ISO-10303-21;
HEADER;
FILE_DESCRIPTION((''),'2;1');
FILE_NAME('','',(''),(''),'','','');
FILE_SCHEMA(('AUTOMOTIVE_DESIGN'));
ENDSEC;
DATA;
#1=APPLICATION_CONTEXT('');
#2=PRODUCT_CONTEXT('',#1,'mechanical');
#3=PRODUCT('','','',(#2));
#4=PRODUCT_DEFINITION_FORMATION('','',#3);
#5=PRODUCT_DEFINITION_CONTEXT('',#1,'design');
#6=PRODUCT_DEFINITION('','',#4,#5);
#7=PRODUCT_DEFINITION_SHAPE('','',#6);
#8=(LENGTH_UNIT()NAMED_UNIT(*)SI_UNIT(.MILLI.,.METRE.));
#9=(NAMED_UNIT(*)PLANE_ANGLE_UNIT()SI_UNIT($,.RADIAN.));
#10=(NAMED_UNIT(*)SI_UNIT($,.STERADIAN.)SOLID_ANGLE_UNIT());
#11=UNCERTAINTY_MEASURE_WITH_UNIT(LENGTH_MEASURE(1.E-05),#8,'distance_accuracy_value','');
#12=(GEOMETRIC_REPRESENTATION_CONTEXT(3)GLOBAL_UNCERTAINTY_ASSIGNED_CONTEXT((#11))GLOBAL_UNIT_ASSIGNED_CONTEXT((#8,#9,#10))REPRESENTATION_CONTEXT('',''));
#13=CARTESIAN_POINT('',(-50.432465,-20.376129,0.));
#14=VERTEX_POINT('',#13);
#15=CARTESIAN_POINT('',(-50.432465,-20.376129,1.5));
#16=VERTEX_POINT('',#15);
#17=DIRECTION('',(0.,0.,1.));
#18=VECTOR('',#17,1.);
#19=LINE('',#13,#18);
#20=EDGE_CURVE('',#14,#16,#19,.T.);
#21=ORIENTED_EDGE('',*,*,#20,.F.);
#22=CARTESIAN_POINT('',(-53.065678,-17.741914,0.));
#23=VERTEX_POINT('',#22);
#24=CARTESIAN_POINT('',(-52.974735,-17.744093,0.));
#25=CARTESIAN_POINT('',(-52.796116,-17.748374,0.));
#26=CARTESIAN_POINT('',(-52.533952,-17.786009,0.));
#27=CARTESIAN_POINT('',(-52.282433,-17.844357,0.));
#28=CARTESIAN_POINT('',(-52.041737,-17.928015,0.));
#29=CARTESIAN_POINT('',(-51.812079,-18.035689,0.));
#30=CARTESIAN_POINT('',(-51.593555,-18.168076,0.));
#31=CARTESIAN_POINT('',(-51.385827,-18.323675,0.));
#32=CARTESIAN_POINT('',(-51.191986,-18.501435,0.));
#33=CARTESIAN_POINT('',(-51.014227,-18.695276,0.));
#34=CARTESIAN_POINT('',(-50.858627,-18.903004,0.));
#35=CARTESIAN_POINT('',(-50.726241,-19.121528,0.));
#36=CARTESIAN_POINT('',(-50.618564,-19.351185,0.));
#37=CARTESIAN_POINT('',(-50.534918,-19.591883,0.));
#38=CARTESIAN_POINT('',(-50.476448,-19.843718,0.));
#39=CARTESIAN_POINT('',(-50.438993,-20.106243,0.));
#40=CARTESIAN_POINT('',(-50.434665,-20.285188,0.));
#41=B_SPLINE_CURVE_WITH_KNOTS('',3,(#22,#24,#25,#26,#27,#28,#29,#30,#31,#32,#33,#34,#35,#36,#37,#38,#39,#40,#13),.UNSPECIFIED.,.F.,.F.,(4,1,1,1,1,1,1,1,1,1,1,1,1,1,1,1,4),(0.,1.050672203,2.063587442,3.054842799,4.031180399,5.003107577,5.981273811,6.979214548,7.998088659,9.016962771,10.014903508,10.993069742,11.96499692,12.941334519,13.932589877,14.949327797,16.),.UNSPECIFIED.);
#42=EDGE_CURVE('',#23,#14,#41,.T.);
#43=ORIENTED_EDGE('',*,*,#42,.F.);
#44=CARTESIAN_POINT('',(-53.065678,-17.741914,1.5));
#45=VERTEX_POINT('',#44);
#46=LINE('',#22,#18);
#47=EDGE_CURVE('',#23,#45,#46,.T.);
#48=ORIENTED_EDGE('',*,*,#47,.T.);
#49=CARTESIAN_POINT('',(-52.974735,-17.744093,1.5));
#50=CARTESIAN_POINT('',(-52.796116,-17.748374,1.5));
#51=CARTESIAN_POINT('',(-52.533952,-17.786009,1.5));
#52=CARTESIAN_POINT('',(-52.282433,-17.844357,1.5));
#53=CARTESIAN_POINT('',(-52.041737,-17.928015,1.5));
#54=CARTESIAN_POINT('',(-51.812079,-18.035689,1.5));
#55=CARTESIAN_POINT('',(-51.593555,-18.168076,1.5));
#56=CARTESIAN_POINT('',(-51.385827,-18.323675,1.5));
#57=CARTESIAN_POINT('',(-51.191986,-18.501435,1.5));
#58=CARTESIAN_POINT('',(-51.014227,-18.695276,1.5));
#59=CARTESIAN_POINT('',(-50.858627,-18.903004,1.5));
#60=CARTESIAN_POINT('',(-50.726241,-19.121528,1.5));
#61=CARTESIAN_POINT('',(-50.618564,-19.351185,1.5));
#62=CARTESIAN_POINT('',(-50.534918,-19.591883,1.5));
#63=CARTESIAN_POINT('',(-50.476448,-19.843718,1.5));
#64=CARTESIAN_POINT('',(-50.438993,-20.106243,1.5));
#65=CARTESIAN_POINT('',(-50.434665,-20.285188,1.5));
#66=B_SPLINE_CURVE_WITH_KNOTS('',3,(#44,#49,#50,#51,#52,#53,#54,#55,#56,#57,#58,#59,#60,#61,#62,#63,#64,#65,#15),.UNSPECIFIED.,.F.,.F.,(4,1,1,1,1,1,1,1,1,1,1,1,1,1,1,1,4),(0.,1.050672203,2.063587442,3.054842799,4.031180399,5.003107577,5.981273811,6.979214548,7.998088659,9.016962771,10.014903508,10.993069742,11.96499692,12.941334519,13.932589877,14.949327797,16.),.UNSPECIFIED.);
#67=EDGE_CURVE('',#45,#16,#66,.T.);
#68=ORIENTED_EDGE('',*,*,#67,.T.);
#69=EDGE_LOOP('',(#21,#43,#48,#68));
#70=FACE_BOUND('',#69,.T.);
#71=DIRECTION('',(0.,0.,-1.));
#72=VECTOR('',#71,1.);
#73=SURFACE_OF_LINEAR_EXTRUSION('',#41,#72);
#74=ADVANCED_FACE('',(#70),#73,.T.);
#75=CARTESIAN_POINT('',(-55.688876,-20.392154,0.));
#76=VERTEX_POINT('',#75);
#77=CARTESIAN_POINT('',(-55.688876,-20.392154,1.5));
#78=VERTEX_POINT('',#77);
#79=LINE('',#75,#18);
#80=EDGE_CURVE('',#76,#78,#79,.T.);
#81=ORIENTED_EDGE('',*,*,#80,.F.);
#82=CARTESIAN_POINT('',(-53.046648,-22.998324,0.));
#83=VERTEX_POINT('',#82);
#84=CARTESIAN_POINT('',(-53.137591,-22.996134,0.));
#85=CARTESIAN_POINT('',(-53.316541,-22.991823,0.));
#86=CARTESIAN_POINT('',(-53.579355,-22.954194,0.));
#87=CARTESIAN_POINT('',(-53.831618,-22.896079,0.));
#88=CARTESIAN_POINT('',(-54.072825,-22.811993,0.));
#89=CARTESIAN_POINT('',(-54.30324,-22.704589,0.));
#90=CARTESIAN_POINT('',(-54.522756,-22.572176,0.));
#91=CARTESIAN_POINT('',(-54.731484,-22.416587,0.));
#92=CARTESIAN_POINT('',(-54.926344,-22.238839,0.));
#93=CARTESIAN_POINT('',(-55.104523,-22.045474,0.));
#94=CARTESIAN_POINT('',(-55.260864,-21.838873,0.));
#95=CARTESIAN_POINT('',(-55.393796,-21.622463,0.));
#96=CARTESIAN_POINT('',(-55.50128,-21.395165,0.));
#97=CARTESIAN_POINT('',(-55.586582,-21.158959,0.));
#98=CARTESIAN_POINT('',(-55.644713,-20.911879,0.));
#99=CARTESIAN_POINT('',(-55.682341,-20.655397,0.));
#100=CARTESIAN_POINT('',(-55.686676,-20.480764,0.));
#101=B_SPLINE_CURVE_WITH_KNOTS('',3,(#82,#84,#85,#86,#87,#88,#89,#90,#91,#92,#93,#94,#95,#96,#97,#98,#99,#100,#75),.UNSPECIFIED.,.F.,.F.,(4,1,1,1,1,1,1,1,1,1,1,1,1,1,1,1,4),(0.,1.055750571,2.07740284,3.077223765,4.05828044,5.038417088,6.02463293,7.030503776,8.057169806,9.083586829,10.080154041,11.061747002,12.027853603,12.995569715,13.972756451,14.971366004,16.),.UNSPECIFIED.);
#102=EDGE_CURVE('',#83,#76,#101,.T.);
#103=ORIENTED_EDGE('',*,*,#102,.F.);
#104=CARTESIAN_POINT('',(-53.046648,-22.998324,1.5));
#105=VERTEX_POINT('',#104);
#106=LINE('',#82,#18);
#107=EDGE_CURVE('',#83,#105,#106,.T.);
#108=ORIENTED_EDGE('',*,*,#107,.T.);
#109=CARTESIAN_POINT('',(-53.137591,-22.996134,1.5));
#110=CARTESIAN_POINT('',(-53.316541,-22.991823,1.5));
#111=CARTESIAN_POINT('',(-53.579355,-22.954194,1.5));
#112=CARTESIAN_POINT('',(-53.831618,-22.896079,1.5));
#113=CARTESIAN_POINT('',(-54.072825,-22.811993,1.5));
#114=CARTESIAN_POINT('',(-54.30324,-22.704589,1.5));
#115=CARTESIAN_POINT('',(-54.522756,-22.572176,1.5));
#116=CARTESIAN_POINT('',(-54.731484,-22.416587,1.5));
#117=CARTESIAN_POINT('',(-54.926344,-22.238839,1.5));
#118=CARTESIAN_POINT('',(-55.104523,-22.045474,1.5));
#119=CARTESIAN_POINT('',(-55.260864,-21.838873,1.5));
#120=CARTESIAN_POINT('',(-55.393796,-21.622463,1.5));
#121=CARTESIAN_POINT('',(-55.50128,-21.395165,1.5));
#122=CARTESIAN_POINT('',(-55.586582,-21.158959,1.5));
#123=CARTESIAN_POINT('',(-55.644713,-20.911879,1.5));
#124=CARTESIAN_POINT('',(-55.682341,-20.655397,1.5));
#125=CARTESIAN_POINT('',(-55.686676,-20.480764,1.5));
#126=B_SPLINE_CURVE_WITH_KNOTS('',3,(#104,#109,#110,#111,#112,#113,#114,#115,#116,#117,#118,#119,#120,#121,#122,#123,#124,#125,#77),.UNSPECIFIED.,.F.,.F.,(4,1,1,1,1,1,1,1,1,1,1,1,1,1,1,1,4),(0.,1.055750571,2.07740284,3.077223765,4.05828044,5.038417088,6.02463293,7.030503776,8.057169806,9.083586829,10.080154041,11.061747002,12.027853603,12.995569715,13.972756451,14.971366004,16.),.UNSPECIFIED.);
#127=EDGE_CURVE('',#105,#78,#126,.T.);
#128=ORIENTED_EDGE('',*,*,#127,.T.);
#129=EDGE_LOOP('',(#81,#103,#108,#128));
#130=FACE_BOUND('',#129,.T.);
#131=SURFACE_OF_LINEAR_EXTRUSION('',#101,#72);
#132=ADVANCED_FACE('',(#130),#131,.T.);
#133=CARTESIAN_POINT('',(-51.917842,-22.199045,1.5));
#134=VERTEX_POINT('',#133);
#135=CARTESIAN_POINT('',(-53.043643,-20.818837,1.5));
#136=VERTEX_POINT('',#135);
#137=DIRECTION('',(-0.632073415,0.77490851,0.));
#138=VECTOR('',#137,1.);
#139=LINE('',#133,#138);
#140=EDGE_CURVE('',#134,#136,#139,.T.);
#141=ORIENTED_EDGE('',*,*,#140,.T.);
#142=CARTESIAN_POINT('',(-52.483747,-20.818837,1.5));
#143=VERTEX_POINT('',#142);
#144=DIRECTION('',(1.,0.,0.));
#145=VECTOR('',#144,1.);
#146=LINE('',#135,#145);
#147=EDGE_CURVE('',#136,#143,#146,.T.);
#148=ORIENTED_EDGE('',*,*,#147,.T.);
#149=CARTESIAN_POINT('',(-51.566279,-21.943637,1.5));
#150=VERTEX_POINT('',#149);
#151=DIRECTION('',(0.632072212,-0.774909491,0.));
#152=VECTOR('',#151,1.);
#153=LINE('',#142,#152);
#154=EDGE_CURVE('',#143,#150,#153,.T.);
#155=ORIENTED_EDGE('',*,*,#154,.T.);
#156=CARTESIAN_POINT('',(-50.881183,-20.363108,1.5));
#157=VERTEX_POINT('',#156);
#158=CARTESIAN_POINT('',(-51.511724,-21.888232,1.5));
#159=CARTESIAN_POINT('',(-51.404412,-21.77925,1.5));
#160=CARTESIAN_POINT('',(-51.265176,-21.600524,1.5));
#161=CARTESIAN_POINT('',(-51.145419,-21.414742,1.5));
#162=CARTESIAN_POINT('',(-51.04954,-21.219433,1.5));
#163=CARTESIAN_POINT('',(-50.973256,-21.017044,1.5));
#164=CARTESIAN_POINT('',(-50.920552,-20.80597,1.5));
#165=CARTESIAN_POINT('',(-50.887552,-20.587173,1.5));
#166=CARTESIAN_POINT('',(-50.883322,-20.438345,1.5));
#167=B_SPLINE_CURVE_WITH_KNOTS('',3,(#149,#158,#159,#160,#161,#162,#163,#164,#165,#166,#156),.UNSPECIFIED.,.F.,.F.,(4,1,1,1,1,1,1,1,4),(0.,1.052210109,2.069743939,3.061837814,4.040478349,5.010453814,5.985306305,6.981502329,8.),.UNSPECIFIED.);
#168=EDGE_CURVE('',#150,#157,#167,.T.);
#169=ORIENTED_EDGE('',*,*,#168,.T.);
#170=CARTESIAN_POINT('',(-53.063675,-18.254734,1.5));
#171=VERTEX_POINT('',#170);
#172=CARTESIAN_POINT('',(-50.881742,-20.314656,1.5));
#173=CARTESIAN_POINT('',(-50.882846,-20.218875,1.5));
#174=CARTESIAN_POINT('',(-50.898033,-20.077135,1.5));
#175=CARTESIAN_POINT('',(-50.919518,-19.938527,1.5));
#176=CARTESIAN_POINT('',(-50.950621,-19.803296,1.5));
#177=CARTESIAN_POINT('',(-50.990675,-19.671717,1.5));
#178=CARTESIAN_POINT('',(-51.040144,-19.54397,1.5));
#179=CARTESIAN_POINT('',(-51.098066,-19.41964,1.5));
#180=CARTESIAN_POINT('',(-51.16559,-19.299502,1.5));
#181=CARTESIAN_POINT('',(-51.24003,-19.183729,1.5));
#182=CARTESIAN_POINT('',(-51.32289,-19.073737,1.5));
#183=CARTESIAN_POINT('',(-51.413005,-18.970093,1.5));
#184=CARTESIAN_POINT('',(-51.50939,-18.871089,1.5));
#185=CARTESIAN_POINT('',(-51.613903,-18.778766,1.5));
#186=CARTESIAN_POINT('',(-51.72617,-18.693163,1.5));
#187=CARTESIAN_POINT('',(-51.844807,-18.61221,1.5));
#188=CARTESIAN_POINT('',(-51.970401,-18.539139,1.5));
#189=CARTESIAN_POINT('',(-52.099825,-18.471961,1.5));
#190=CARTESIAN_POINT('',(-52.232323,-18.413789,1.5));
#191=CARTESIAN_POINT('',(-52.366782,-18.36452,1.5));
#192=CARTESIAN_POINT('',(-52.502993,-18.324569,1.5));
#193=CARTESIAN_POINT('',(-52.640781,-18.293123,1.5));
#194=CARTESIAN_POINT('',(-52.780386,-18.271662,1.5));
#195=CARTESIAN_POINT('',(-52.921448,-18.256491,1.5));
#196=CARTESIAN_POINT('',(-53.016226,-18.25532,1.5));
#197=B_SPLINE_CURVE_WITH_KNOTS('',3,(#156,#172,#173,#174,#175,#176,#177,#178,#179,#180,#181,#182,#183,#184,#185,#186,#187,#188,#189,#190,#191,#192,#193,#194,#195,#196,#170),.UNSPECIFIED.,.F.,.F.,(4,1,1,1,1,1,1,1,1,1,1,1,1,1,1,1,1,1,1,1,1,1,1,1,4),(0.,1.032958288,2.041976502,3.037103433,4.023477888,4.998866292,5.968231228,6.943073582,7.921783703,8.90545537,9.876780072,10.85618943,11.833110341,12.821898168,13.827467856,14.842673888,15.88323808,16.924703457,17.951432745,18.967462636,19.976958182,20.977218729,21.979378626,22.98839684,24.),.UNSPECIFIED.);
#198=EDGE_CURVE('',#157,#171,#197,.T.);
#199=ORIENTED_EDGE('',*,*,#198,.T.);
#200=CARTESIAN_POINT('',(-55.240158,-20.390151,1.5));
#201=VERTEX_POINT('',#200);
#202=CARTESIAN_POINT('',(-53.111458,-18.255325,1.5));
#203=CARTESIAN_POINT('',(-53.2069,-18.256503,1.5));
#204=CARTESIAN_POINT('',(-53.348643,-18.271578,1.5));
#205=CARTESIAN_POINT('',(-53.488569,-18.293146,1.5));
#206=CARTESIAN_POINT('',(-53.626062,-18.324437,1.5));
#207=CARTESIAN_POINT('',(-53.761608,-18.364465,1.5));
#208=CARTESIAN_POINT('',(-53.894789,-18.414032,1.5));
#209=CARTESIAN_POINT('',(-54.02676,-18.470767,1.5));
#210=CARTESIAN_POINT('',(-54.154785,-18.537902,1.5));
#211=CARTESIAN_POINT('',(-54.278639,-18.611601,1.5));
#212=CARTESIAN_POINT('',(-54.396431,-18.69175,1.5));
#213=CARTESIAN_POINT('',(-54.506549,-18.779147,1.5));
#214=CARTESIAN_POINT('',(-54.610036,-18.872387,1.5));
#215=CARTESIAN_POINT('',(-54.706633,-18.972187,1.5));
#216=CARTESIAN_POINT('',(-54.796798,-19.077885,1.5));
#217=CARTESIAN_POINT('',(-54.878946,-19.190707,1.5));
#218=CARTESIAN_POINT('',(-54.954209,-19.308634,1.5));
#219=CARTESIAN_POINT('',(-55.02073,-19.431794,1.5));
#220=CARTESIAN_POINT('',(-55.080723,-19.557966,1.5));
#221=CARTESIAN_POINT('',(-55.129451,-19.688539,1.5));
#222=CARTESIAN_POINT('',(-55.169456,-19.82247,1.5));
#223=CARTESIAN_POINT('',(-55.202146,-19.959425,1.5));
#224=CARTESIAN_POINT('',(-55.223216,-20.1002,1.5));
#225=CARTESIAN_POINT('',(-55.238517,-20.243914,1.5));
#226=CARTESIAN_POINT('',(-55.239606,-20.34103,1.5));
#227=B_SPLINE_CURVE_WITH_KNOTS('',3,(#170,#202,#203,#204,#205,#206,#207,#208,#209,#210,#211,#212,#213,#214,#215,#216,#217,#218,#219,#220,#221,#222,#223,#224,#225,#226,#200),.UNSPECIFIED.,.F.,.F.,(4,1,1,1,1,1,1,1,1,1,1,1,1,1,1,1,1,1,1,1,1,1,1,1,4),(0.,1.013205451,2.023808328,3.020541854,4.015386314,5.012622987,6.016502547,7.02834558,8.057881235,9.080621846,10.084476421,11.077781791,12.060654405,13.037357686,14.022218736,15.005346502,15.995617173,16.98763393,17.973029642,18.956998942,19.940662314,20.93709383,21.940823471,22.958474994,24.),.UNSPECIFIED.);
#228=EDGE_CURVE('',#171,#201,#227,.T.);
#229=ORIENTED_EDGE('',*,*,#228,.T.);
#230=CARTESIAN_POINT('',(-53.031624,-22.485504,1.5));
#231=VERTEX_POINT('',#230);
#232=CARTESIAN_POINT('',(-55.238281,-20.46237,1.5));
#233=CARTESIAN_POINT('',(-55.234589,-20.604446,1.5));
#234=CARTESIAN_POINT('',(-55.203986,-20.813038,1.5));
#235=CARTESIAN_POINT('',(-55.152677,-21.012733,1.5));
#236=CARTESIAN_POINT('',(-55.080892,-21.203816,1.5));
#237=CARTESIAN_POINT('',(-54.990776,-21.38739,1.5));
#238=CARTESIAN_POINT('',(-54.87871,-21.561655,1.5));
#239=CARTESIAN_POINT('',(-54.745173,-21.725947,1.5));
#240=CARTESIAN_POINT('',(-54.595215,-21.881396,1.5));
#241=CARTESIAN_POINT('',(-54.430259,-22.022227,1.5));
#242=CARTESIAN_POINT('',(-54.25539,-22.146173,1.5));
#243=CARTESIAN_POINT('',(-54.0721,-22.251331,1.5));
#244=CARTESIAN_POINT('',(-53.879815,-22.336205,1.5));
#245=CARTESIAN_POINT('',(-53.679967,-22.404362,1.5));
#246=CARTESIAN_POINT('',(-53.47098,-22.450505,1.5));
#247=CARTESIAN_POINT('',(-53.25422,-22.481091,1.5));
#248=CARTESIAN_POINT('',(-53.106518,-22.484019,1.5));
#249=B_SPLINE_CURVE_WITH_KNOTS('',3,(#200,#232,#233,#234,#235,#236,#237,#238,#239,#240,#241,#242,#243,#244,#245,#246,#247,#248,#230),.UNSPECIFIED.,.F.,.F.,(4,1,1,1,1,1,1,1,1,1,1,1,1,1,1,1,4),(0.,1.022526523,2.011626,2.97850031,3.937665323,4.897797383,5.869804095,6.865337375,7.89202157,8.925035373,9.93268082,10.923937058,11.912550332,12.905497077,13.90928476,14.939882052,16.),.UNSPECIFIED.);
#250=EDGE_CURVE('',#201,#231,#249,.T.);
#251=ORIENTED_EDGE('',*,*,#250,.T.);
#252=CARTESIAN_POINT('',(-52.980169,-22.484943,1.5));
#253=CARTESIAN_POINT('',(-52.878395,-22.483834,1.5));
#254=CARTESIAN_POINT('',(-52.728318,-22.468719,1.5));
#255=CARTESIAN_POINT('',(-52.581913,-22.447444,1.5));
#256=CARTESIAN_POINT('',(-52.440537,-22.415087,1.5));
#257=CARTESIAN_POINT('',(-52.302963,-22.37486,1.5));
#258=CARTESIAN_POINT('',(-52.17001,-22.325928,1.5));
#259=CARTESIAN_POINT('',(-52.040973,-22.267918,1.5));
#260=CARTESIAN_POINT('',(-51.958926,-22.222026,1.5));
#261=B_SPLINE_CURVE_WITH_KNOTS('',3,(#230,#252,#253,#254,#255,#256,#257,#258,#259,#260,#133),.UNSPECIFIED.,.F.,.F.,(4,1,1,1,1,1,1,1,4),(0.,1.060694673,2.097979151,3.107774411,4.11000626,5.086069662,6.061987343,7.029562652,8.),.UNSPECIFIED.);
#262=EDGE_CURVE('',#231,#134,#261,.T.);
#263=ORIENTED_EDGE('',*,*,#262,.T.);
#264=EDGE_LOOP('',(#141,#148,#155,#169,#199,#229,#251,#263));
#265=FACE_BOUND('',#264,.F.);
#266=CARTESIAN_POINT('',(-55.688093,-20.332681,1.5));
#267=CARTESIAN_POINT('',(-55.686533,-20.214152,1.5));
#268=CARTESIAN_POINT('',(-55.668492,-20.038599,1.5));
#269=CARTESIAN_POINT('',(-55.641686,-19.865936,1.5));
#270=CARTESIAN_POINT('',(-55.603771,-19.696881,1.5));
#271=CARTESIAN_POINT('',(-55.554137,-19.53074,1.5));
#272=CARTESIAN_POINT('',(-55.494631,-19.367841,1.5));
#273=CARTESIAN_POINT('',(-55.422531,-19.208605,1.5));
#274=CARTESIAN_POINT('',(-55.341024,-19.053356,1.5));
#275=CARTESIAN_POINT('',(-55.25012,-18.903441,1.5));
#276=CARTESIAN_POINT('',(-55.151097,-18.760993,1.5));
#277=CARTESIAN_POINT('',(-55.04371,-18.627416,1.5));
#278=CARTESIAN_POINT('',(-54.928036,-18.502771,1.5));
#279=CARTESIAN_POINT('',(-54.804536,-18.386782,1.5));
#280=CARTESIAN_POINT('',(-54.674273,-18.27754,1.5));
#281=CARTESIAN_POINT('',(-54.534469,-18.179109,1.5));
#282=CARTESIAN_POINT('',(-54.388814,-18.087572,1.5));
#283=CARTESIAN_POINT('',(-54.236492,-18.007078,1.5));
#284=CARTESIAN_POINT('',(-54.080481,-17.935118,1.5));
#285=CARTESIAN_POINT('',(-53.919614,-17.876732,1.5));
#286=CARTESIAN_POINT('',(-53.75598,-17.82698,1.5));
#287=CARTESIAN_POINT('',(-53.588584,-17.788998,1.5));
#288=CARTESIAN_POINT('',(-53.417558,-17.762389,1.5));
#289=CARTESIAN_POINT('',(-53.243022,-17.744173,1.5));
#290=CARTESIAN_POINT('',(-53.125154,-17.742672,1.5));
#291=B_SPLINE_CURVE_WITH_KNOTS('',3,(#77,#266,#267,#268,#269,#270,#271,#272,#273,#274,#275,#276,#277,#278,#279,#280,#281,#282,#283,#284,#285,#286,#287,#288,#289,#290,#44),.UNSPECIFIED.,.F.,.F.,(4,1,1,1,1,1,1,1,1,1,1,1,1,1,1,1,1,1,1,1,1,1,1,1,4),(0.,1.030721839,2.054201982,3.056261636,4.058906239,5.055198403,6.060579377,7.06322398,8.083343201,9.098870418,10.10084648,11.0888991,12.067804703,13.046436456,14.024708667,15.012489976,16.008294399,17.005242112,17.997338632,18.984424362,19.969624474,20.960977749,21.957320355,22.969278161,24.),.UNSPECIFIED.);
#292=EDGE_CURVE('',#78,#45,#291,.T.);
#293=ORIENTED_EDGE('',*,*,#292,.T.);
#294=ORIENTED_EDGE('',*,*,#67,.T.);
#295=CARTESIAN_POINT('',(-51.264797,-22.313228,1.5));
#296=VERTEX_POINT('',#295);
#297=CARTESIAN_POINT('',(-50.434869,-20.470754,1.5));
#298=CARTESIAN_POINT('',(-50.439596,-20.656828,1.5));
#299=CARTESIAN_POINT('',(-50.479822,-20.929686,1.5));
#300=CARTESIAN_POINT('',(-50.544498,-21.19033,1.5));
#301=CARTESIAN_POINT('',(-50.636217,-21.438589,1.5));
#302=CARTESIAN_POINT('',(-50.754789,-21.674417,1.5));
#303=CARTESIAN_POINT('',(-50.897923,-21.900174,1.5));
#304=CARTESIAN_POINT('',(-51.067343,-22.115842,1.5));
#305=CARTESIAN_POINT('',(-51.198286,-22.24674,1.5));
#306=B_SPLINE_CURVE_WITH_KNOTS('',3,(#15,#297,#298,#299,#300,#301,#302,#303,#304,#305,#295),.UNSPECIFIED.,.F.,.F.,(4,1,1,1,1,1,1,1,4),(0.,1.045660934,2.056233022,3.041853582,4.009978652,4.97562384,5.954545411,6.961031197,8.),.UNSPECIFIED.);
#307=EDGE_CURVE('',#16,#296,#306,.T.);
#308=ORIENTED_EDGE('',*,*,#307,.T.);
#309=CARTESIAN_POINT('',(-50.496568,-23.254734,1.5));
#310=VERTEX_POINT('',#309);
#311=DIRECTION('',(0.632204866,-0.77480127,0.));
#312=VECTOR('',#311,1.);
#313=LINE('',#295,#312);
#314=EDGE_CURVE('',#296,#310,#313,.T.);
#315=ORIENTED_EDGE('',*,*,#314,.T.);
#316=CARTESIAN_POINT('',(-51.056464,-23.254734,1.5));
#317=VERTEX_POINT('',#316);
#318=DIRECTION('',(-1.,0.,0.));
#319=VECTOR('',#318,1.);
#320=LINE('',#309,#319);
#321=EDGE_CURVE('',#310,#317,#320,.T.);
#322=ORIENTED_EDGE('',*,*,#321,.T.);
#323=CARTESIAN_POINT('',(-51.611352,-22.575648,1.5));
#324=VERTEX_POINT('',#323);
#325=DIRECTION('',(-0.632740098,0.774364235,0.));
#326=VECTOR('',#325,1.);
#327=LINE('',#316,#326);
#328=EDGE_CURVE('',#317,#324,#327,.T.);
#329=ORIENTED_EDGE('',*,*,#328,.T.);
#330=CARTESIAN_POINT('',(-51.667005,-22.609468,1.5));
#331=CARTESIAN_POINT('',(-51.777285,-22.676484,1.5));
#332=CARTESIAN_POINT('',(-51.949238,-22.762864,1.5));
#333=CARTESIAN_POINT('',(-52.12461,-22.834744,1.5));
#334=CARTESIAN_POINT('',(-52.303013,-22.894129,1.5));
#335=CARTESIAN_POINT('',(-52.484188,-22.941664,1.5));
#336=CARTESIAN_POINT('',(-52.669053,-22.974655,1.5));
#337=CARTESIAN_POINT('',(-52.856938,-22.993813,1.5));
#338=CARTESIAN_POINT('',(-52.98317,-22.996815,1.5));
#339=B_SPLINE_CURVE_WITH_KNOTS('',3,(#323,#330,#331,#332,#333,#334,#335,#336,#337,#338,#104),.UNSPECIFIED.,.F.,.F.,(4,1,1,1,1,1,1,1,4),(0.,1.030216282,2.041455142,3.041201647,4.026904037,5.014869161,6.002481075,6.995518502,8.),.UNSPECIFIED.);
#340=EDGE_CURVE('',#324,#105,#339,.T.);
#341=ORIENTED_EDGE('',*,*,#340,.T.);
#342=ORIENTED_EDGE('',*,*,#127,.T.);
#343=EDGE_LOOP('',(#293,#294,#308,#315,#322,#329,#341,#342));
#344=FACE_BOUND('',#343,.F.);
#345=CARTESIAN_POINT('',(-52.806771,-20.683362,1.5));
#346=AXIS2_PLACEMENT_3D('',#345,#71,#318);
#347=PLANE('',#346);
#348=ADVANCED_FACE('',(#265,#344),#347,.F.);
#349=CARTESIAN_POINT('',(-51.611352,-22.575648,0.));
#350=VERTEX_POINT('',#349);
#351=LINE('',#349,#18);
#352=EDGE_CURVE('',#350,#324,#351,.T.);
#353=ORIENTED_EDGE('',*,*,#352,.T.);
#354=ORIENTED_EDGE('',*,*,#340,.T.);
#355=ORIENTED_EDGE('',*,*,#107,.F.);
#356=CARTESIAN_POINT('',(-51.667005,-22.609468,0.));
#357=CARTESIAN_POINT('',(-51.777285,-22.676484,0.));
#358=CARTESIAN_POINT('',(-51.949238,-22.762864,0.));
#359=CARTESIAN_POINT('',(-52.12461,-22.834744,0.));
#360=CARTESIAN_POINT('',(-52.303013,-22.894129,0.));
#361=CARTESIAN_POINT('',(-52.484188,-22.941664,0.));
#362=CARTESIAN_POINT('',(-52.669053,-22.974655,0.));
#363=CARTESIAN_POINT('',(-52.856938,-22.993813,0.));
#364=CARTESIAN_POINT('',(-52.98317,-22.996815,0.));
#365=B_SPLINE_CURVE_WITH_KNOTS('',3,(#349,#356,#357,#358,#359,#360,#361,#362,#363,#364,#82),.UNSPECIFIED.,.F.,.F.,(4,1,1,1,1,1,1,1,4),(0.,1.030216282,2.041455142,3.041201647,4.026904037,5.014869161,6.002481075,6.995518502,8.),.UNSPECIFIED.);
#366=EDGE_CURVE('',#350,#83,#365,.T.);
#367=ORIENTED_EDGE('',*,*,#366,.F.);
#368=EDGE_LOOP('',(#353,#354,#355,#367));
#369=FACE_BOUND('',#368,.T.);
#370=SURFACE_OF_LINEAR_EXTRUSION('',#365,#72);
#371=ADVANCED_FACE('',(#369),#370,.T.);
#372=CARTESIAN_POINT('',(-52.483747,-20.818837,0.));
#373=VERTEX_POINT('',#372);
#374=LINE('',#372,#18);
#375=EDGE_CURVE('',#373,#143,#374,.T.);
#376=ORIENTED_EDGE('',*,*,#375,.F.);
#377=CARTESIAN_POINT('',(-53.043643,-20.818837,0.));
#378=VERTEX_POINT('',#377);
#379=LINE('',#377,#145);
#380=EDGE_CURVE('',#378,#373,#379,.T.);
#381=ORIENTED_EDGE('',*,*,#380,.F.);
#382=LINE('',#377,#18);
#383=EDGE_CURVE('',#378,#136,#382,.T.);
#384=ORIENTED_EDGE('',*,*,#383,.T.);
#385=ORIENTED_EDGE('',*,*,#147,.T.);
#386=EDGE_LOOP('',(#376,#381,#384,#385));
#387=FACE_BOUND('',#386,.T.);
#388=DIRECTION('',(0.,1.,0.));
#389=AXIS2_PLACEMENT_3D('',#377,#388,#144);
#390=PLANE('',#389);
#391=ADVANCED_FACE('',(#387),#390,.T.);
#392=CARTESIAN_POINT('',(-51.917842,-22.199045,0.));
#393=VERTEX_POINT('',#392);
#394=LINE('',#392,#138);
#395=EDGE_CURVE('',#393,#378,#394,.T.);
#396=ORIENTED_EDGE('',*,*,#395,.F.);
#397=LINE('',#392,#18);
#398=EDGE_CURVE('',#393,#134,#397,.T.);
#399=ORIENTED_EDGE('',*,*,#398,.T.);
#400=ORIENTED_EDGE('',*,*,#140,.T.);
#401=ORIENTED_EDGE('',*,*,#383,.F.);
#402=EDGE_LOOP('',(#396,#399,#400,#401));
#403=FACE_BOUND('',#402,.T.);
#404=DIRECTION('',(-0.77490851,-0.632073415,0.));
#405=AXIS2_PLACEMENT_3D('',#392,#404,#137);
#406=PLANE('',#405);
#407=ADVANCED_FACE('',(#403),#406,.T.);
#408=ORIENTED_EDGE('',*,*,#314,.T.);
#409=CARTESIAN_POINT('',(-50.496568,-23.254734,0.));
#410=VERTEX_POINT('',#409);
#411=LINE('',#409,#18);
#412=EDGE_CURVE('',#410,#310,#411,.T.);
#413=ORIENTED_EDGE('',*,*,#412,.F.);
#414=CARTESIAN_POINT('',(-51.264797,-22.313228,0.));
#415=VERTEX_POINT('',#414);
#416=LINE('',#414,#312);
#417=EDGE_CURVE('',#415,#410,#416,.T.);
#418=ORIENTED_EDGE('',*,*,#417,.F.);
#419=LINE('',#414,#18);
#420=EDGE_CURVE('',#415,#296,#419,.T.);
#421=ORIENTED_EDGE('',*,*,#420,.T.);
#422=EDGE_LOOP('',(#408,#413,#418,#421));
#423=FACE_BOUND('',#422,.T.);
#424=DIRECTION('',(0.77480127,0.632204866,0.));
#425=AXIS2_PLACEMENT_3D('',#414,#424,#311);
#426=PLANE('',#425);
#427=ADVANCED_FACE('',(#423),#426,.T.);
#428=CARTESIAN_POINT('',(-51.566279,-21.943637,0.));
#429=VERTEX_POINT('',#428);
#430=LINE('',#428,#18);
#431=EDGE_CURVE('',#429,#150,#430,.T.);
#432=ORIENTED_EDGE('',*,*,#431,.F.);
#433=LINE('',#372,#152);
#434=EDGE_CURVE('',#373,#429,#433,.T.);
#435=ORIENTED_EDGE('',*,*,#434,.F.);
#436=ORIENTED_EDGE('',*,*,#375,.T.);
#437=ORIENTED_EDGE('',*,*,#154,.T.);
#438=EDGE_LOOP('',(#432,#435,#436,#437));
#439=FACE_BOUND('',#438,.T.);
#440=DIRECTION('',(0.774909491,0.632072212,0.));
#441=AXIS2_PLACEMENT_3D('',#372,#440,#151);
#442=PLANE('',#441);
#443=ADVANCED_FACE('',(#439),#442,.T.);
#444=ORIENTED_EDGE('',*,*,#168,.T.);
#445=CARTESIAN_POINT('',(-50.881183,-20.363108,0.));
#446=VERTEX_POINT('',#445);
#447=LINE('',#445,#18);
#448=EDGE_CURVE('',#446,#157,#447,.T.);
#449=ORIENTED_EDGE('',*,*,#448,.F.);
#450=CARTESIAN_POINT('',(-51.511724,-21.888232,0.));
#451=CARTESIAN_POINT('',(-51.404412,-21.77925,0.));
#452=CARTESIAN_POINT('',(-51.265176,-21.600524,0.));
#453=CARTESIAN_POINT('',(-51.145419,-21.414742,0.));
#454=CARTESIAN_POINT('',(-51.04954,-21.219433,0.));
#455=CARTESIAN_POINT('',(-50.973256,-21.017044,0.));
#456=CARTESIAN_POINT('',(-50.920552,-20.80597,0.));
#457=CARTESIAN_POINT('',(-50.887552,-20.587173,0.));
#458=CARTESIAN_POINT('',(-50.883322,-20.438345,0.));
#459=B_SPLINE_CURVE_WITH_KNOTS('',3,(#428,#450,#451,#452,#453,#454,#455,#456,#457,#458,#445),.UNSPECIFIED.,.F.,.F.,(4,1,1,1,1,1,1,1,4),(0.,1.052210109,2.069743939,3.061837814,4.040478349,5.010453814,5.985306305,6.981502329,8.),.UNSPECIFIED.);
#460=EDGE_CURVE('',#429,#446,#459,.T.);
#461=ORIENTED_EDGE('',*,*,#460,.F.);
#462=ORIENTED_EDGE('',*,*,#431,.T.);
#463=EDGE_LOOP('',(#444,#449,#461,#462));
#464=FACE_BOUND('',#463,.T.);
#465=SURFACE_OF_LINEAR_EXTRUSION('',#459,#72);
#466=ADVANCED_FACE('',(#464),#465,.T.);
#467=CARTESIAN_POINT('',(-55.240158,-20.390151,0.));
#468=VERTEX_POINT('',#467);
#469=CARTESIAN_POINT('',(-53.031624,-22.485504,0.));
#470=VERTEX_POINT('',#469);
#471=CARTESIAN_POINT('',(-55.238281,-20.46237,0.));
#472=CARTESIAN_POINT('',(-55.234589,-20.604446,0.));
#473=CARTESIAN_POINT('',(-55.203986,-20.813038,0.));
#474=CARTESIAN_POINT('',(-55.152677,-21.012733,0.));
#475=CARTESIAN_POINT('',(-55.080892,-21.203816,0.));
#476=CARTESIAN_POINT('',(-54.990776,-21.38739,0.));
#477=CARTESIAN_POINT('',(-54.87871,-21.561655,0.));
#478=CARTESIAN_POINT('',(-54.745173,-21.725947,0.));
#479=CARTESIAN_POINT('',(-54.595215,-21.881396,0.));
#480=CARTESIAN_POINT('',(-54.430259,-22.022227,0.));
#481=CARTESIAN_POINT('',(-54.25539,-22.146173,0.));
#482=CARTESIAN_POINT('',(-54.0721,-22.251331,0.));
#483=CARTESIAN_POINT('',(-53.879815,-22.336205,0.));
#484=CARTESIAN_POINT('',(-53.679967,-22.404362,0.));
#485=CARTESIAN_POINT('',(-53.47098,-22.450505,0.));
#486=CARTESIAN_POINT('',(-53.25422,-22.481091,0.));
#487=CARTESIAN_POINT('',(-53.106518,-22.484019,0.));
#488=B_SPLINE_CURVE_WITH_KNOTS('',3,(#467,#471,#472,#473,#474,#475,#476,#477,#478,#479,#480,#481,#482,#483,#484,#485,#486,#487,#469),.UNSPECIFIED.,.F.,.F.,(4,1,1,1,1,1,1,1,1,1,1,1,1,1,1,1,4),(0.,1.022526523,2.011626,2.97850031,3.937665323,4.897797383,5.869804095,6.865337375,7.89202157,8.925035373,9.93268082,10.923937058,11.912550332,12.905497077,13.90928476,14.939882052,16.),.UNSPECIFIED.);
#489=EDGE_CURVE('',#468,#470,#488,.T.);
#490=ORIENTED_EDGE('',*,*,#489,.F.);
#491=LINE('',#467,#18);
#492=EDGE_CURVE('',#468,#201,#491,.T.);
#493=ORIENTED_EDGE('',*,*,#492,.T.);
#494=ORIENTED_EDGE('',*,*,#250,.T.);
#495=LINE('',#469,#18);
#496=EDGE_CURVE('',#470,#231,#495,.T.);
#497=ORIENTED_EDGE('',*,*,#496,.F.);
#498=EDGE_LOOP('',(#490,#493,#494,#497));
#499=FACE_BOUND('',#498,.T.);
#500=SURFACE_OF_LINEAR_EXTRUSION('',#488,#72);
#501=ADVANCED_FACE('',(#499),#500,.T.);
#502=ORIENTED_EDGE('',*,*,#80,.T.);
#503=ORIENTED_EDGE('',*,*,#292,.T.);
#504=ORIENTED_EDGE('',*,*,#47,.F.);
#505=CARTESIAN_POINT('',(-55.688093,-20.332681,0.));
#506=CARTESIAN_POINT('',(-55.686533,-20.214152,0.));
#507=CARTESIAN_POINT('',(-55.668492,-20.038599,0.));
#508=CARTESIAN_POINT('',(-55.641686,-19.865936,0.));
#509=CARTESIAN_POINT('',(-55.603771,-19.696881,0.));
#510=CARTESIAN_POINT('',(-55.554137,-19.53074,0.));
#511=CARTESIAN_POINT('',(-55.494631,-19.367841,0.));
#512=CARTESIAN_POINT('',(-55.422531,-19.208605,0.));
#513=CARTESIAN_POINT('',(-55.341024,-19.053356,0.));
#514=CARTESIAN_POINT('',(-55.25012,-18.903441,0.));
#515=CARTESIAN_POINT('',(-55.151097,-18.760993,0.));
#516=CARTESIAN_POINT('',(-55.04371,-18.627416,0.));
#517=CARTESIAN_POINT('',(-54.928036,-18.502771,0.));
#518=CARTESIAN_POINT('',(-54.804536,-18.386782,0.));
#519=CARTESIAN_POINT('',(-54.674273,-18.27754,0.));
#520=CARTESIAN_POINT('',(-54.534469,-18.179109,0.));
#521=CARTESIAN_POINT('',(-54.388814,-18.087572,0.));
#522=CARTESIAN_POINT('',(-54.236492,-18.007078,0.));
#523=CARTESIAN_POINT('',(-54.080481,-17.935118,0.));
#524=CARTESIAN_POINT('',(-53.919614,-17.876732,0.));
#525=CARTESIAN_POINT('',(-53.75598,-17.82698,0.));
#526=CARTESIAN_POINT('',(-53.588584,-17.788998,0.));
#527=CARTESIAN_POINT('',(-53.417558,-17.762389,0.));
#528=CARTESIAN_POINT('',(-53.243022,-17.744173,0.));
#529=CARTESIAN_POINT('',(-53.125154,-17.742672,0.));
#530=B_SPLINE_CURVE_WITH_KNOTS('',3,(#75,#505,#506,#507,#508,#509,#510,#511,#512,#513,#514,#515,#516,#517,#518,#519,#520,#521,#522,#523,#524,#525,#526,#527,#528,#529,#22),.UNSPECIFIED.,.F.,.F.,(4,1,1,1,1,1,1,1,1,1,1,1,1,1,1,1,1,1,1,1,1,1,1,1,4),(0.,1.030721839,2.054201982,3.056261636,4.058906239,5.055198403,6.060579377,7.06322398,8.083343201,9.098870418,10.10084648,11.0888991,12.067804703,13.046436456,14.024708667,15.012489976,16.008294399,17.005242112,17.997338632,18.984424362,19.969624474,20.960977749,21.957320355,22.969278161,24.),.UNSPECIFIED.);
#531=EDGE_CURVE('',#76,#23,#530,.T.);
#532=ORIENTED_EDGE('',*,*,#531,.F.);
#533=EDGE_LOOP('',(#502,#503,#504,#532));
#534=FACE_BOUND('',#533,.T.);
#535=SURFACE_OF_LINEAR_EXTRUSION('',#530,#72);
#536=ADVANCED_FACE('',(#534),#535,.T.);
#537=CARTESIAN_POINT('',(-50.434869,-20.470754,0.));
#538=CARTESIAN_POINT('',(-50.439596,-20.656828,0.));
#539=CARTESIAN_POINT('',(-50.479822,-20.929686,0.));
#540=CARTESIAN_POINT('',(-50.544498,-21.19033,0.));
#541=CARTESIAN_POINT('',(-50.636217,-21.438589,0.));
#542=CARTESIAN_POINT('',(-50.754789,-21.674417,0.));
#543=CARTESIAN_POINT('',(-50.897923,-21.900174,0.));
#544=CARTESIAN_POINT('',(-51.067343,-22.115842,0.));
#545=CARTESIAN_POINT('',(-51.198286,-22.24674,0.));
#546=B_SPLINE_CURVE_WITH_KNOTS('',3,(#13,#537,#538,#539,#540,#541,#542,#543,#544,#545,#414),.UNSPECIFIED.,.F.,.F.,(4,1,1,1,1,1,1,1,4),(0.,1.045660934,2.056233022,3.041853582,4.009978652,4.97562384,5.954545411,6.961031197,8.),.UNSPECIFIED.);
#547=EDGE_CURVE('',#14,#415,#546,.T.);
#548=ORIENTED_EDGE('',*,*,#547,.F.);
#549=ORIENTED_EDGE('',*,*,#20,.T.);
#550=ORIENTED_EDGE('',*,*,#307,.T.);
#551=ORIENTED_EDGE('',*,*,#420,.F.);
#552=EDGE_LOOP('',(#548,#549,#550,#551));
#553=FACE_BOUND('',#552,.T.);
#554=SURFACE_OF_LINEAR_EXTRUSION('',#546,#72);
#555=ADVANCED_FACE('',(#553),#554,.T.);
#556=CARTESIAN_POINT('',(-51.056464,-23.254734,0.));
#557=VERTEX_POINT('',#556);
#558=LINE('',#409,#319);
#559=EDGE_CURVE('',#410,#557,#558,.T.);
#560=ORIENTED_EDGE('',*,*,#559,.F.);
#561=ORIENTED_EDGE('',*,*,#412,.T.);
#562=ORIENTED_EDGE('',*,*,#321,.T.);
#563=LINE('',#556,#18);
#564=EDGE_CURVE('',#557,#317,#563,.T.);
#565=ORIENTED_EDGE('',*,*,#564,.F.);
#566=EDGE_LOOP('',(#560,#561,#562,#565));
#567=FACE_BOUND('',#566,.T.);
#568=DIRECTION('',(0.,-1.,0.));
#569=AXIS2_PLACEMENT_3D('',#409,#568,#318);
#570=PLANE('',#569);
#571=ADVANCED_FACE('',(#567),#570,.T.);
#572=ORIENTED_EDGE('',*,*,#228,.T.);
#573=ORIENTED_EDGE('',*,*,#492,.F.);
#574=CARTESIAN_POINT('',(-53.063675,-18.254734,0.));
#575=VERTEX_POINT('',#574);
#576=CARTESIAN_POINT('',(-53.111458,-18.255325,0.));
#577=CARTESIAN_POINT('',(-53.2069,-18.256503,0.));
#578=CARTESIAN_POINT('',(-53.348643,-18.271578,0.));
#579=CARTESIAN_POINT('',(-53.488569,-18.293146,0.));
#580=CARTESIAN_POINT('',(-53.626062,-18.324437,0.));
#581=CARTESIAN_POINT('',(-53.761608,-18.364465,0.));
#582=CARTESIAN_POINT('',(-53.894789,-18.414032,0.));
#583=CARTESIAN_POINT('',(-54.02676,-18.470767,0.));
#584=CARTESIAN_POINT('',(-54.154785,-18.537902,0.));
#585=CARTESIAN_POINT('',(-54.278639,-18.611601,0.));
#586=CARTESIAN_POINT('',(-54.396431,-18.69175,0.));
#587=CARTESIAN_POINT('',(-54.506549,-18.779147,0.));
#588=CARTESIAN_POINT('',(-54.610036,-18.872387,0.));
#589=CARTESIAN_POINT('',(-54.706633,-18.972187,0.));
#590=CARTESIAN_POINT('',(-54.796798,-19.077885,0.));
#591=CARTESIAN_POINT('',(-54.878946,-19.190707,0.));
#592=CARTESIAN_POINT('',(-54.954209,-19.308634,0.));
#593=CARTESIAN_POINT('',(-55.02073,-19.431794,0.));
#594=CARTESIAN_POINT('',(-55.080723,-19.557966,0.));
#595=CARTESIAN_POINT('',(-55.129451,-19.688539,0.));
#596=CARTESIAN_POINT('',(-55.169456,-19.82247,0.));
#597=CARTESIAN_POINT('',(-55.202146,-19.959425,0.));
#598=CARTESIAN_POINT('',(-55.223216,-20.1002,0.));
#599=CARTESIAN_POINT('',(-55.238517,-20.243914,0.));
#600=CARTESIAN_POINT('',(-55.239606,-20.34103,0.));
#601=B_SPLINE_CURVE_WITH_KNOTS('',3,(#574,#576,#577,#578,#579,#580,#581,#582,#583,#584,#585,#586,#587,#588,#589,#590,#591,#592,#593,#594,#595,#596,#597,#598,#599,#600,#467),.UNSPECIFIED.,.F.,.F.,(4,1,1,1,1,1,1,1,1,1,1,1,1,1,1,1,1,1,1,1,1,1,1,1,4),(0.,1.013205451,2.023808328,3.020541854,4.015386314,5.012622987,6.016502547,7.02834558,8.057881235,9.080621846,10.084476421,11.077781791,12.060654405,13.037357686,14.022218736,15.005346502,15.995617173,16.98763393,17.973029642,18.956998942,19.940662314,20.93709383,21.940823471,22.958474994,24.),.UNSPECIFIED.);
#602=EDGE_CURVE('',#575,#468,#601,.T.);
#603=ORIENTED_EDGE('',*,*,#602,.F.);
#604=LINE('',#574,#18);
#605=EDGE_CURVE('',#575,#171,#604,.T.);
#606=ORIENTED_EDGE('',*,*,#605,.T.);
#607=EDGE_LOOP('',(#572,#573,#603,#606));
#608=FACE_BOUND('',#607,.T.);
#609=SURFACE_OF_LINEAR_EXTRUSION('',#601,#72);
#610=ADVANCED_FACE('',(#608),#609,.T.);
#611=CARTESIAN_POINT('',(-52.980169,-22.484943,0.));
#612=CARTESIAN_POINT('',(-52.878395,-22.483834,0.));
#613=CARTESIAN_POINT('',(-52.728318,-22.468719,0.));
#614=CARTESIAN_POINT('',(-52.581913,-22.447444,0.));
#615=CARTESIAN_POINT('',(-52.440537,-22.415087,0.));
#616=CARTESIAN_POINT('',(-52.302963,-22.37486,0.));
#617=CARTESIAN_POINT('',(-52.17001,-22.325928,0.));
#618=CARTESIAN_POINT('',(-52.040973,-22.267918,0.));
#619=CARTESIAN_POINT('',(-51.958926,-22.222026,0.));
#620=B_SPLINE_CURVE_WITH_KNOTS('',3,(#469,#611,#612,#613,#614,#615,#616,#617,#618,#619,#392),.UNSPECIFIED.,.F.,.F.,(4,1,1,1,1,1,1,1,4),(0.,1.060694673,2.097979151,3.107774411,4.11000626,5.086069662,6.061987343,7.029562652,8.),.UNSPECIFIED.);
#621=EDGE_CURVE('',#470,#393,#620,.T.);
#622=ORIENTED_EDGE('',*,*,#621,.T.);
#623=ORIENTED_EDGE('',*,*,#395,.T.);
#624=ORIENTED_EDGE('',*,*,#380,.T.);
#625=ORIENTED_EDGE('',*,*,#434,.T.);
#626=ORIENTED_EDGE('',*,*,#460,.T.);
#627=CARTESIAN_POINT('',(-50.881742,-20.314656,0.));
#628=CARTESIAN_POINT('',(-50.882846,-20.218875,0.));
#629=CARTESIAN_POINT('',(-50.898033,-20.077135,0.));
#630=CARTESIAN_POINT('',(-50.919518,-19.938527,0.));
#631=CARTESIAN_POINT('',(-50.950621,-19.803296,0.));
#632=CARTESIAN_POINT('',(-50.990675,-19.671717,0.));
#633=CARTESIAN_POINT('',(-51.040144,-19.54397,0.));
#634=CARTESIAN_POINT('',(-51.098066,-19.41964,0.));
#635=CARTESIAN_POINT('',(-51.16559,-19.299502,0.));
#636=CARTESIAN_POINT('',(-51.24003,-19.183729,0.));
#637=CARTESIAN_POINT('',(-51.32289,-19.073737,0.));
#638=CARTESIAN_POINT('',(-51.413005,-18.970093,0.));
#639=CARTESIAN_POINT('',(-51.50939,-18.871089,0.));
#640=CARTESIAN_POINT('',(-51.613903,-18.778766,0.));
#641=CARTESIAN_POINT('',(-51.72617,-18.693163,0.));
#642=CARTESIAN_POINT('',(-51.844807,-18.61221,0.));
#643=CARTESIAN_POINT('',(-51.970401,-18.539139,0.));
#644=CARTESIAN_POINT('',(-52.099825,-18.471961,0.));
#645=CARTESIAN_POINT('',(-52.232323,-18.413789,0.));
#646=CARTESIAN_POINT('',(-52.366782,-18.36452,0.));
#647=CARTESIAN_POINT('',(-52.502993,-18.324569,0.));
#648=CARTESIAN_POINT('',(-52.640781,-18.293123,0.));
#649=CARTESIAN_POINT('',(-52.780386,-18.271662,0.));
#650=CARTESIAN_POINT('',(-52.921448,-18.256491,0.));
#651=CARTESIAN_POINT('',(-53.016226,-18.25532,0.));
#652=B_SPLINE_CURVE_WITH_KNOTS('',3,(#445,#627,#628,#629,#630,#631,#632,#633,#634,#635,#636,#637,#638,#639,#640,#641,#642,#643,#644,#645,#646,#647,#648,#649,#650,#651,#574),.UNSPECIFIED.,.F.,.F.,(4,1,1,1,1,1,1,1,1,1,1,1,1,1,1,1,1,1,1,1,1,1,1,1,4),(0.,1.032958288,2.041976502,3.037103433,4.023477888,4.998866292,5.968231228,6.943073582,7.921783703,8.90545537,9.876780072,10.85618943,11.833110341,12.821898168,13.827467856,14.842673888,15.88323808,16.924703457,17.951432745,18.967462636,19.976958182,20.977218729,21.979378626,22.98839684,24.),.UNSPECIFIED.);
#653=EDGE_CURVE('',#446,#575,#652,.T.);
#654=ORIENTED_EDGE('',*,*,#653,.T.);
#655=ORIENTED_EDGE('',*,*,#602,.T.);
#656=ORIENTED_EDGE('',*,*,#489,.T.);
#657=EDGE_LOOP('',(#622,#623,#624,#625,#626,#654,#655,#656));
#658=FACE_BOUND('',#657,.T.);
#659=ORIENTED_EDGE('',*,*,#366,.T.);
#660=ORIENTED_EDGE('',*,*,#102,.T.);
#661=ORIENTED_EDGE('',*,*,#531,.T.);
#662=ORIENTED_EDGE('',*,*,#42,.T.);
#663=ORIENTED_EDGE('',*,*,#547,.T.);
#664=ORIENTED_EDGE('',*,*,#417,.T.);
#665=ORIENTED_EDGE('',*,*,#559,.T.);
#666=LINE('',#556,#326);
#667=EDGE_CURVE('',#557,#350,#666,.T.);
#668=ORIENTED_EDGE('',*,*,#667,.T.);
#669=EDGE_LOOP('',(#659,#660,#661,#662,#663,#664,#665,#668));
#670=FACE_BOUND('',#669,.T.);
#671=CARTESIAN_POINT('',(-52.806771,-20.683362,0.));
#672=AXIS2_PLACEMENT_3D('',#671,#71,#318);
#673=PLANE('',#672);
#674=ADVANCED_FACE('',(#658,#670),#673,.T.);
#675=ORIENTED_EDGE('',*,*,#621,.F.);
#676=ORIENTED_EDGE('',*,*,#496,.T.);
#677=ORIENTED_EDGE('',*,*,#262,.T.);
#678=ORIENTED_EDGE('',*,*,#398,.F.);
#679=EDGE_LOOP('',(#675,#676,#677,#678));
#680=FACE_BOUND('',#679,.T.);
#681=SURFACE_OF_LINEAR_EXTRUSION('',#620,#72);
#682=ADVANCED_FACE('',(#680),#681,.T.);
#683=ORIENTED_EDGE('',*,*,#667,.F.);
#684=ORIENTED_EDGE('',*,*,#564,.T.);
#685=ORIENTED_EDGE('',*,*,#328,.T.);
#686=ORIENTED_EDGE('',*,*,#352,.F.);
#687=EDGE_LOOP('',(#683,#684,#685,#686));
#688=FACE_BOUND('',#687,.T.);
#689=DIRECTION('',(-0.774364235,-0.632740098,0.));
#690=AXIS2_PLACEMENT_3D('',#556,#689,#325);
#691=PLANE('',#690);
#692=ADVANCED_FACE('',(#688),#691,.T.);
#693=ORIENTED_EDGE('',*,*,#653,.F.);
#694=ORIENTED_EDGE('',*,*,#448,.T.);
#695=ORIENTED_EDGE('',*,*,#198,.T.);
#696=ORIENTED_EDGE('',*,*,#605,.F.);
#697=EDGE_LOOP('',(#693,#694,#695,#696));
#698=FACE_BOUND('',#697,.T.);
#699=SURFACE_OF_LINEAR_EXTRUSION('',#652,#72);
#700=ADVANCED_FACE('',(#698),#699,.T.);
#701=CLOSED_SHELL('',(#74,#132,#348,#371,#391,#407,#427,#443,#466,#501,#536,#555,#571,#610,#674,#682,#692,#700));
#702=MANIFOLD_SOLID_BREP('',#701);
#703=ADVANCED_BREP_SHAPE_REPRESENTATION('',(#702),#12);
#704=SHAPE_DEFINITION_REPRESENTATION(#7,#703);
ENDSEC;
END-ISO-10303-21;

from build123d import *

# Parameters (mm, degrees)
BOSS_EXTRU_1_DEPTH = 1.5


with BuildPart() as part:
    # Esquisse1 → Boss.-Extru.1 (new body)
    with BuildSketch(Plane.XY):
        with BuildLine():
            Line((-51.264797057, -22.313228051), (-50.49656789, -23.254734461))
            Line((-50.49656789, -23.254734461), (-51.056463723, -23.254734461))
            Line((-51.056463723, -23.254734461), (-51.611351544, -22.575647922))
            add(Edge.make_bspline(
                [(-51.611351544, -22.575647922), (-51.667004534, -22.609467545), (-51.77728534, -22.676483804), (-51.949237679, -22.762864043), (-52.124609537, -22.834743668), (-52.303012884, -22.894129346), (-52.484187867, -22.941664096), (-52.669053208, -22.974655224), (-52.856938413, -22.99381276), (-52.983170416, -22.996814657), (-53.046648018, -22.998324204)],
                knots=[0, 0, 0, 0, 1.030216282, 2.041455142, 3.041201647, 4.026904037, 5.014869161, 6.002481075, 6.995518502, 8, 8, 8, 8], degree=3))
            add(Edge.make_bspline(
                [(-53.046648018, -22.998324204), (-53.137591362, -22.99613371), (-53.316540791, -22.991823468), (-53.579355244, -22.954194244), (-53.831617557, -22.896079216), (-54.072824915, -22.811992553), (-54.303240075, -22.704589006), (-54.522755987, -22.572175755), (-54.731484222, -22.416586876), (-54.926343637, -22.238839192), (-55.104522805, -22.045474469), (-55.26086386, -21.838872985), (-55.393795998, -21.622463043), (-55.50127955, -21.395165474), (-55.586582113, -21.158959064), (-55.644713497, -20.911879357), (-55.682341265, -20.655397184), (-55.686676076, -20.480764083), (-55.688875582, -20.392154333)],
                knots=[0, 0, 0, 0, 1.055750571, 2.07740284, 3.077223765, 4.05828044, 5.038417088, 6.02463293, 7.030503776, 8.057169806, 9.083586829, 10.080154041, 11.061747002, 12.027853603, 12.995569715, 13.972756451, 14.971366004, 16, 16, 16, 16], degree=3))
            add(Edge.make_bspline(
                [(-55.688875582, -20.392154333), (-55.688093022, -20.33268107), (-55.686533398, -20.214152396), (-55.668491753, -20.038599293), (-55.641686338, -19.865936249), (-55.603771119, -19.696880782), (-55.554136935, -19.530739956), (-55.494630673, -19.367841379), (-55.422530915, -19.208604795), (-55.341023889, -19.053356113), (-55.250120175, -18.903440884), (-55.151096695, -18.7609928), (-55.043709844, -18.627415695), (-54.928035643, -18.502770687), (-54.804536059, -18.386782246), (-54.674273088, -18.277540391), (-54.534469264, -18.179109035), (-54.388814443, -18.087571822), (-54.236491808, -18.007077518), (-54.080480787, -17.935118183), (-53.919614333, -17.87673225), (-53.755979702, -17.826980362), (-53.588584139, -17.788997635), (-53.417558106, -17.762388722), (-53.243021921, -17.744173055), (-53.125153863, -17.742671581), (-53.065678467, -17.741913948)],
                knots=[0, 0, 0, 0, 1.030721839, 2.054201982, 3.056261636, 4.058906239, 5.055198403, 6.060579377, 7.06322398, 8.083343201, 9.098870418, 10.10084648, 11.0888991, 12.067804703, 13.046436456, 14.024708667, 15.012489976, 16.008294399, 17.005242112, 17.997338632, 18.984424362, 19.969624474, 20.960977749, 21.957320355, 22.969278161, 24, 24, 24, 24], degree=3))
            add(Edge.make_bspline(
                [(-53.065678467, -17.741913948), (-52.974734783, -17.744093445), (-52.796115568, -17.748374118), (-52.533952193, -17.786009017), (-52.282433034, -17.844357249), (-52.041737142, -17.928015386), (-51.812079117, -18.035689413), (-51.593555443, -18.168075975), (-51.385827324, -18.32367516), (-51.191986113, -18.501434748), (-51.014226591, -18.69527595), (-50.85862716, -18.903004041), (-50.726241492, -19.121527831), (-50.61856416, -19.35118542), (-50.534918456, -19.591882956), (-50.476447848, -19.843718418), (-50.438992649, -20.106242587), (-50.434664779, -20.285187594), (-50.432465326, -20.376128692)],
                knots=[0, 0, 0, 0, 1.050672203, 2.063587442, 3.054842799, 4.031180399, 5.003107577, 5.981273811, 6.979214548, 7.998088659, 9.016962771, 10.014903508, 10.993069742, 11.96499692, 12.941334519, 13.932589877, 14.949327797, 16, 16, 16, 16], degree=3))
            add(Edge.make_bspline(
                [(-50.432465326, -20.376128692), (-50.434869066, -20.4707535), (-50.439595885, -20.65682783), (-50.479821925, -20.929686009), (-50.544498334, -21.190329847), (-50.636217294, -21.438588569), (-50.754789182, -21.67441705), (-50.897923277, -21.9001736), (-51.067342928, -22.115842211), (-51.198285863, -22.24673986), (-51.264797057, -22.313228051)],
                knots=[0, 0, 0, 0, 1.045660934, 2.056233022, 3.041853582, 4.009978652, 4.97562384, 5.954545411, 6.961031197, 8, 8, 8, 8], degree=3))
        make_face()
        with BuildLine():
            add(Edge.make_bspline(
                [(-51.566279428, -21.943636704), (-51.51172417, -21.888232457), (-51.404411558, -21.779249846), (-51.265175554, -21.600524131), (-51.145418622, -21.41474237), (-51.049540161, -21.219433228), (-50.973255773, -21.017043638), (-50.92055164, -20.805969946), (-50.887551523, -20.587173057), (-50.883321632, -20.438345407), (-50.881183275, -20.363107858)],
                knots=[0, 0, 0, 0, 1.052210109, 2.069743939, 3.061837814, 4.040478349, 5.010453814, 5.985306305, 6.981502329, 8, 8, 8, 8], degree=3))
            add(Edge.make_bspline(
                [(-50.881183275, -20.363107858), (-50.881741995, -20.314655812), (-50.882846488, -20.218874654), (-50.898033237, -20.077135344), (-50.91951797, -19.93852653), (-50.950621278, -19.80329587), (-50.990674696, -19.671717346), (-51.040144187, -19.543969579), (-51.098065914, -19.419640443), (-51.165589992, -19.299502266), (-51.240029574, -19.183729173), (-51.322889962, -19.073737016), (-51.413004847, -18.970092944), (-51.509389767, -18.871088951), (-51.613903021, -18.778765875), (-51.726169785, -18.693163291), (-51.844806679, -18.61220964), (-51.970400768, -18.539138521), (-52.099825438, -18.471961029), (-52.232323378, -18.413789478), (-52.366782042, -18.364520258), (-52.502993214, -18.324569248), (-52.640780636, -18.293122716), (-52.780385877, -18.271662023), (-52.921447917, -18.256490913), (-53.016225731, -18.255320444), (-53.063675262, -18.254734461)],
                knots=[0, 0, 0, 0, 1.032958288, 2.041976502, 3.037103433, 4.023477888, 4.998866292, 5.968231228, 6.943073582, 7.921783703, 8.90545537, 9.876780072, 10.85618943, 11.833110341, 12.821898168, 13.827467856, 14.842673888, 15.88323808, 16.924703457, 17.951432745, 18.967462636, 19.976958182, 20.977218729, 21.979378626, 22.98839684, 24, 24, 24, 24], degree=3))
            add(Edge.make_bspline(
                [(-53.063675262, -18.254734461), (-53.111457778, -18.255324533), (-53.206900075, -18.256503161), (-53.348643141, -18.271578114), (-53.488568776, -18.293146341), (-53.626061561, -18.32443658), (-53.761608406, -18.364465284), (-53.894788585, -18.414032363), (-54.0267603, -18.470767101), (-54.154785018, -18.5379017), (-54.278638739, -18.61160116), (-54.396431464, -18.691749867), (-54.506548929, -18.779147467), (-54.610035703, -18.872386866), (-54.706633311, -18.972187476), (-54.796797838, -19.07788543), (-54.878945838, -19.190707144), (-54.954208859, -19.30863406), (-55.020729887, -19.431794307), (-55.080723414, -19.557965778), (-55.129451484, -19.688539497), (-55.169456196, -19.822470357), (-55.202146101, -19.959425394), (-55.223216014, -20.100199627), (-55.23851668, -20.243914258), (-55.239606438, -20.341030193), (-55.240157634, -20.390151128)],
                knots=[0, 0, 0, 0, 1.013205451, 2.023808328, 3.020541854, 4.015386314, 5.012622987, 6.016502547, 7.02834558, 8.057881235, 9.080621846, 10.084476421, 11.077781791, 12.060654405, 13.037357686, 14.022218736, 15.005346502, 15.995617173, 16.98763393, 17.973029642, 18.956998942, 19.940662314, 20.93709383, 21.940823471, 22.958474994, 24, 24, 24, 24], degree=3))
            add(Edge.make_bspline(
                [(-55.240157634, -20.390151128), (-55.238281124, -20.462369572), (-55.23458945, -20.604445595), (-55.203986388, -20.813037716), (-55.152676513, -21.012732702), (-55.080891868, -21.20381624), (-54.990776092, -21.3873897), (-54.87871031, -21.561654676), (-54.745172628, -21.725947416), (-54.595214832, -21.881396386), (-54.430259018, -22.022226929), (-54.255389856, -22.146173183), (-54.072100339, -22.251330598), (-53.879814905, -22.3362049), (-53.679967434, -22.404361837), (-53.470980336, -22.450505446), (-53.254219766, -22.48109067), (-53.106517754, -22.484018902), (-53.03162398, -22.485503692)],
                knots=[0, 0, 0, 0, 1.022526523, 2.011626, 2.97850031, 3.937665323, 4.897797383, 5.869804095, 6.865337375, 7.89202157, 8.925035373, 9.93268082, 10.923937058, 11.912550332, 12.905497077, 13.90928476, 14.939882052, 16, 16, 16, 16], degree=3))
            add(Edge.make_bspline(
                [(-53.03162398, -22.485503692), (-52.980169117, -22.484943162), (-52.878395032, -22.483834474), (-52.728317882, -22.468719305), (-52.581913274, -22.447444392), (-52.440536952, -22.415087335), (-52.302962964, -22.374860395), (-52.170010193, -22.325927955), (-52.040973375, -22.267918136), (-51.958926133, -22.222025542), (-51.917841928, -22.199045358)],
                knots=[0, 0, 0, 0, 1.060694673, 2.097979151, 3.107774411, 4.11000626, 5.086069662, 6.061987343, 7.029562652, 8, 8, 8, 8], degree=3))
            Line((-51.917841928, -22.199045358), (-53.04364321, -20.818837025))
            Line((-53.04364321, -20.818837025), (-52.483747377, -20.818837025))
            Line((-52.483747377, -20.818837025), (-51.566279428, -21.943636704))
        make_face(mode=Mode.SUBTRACT)
    extrude(amount=BOSS_EXTRU_1_DEPTH)


solid = part.part
